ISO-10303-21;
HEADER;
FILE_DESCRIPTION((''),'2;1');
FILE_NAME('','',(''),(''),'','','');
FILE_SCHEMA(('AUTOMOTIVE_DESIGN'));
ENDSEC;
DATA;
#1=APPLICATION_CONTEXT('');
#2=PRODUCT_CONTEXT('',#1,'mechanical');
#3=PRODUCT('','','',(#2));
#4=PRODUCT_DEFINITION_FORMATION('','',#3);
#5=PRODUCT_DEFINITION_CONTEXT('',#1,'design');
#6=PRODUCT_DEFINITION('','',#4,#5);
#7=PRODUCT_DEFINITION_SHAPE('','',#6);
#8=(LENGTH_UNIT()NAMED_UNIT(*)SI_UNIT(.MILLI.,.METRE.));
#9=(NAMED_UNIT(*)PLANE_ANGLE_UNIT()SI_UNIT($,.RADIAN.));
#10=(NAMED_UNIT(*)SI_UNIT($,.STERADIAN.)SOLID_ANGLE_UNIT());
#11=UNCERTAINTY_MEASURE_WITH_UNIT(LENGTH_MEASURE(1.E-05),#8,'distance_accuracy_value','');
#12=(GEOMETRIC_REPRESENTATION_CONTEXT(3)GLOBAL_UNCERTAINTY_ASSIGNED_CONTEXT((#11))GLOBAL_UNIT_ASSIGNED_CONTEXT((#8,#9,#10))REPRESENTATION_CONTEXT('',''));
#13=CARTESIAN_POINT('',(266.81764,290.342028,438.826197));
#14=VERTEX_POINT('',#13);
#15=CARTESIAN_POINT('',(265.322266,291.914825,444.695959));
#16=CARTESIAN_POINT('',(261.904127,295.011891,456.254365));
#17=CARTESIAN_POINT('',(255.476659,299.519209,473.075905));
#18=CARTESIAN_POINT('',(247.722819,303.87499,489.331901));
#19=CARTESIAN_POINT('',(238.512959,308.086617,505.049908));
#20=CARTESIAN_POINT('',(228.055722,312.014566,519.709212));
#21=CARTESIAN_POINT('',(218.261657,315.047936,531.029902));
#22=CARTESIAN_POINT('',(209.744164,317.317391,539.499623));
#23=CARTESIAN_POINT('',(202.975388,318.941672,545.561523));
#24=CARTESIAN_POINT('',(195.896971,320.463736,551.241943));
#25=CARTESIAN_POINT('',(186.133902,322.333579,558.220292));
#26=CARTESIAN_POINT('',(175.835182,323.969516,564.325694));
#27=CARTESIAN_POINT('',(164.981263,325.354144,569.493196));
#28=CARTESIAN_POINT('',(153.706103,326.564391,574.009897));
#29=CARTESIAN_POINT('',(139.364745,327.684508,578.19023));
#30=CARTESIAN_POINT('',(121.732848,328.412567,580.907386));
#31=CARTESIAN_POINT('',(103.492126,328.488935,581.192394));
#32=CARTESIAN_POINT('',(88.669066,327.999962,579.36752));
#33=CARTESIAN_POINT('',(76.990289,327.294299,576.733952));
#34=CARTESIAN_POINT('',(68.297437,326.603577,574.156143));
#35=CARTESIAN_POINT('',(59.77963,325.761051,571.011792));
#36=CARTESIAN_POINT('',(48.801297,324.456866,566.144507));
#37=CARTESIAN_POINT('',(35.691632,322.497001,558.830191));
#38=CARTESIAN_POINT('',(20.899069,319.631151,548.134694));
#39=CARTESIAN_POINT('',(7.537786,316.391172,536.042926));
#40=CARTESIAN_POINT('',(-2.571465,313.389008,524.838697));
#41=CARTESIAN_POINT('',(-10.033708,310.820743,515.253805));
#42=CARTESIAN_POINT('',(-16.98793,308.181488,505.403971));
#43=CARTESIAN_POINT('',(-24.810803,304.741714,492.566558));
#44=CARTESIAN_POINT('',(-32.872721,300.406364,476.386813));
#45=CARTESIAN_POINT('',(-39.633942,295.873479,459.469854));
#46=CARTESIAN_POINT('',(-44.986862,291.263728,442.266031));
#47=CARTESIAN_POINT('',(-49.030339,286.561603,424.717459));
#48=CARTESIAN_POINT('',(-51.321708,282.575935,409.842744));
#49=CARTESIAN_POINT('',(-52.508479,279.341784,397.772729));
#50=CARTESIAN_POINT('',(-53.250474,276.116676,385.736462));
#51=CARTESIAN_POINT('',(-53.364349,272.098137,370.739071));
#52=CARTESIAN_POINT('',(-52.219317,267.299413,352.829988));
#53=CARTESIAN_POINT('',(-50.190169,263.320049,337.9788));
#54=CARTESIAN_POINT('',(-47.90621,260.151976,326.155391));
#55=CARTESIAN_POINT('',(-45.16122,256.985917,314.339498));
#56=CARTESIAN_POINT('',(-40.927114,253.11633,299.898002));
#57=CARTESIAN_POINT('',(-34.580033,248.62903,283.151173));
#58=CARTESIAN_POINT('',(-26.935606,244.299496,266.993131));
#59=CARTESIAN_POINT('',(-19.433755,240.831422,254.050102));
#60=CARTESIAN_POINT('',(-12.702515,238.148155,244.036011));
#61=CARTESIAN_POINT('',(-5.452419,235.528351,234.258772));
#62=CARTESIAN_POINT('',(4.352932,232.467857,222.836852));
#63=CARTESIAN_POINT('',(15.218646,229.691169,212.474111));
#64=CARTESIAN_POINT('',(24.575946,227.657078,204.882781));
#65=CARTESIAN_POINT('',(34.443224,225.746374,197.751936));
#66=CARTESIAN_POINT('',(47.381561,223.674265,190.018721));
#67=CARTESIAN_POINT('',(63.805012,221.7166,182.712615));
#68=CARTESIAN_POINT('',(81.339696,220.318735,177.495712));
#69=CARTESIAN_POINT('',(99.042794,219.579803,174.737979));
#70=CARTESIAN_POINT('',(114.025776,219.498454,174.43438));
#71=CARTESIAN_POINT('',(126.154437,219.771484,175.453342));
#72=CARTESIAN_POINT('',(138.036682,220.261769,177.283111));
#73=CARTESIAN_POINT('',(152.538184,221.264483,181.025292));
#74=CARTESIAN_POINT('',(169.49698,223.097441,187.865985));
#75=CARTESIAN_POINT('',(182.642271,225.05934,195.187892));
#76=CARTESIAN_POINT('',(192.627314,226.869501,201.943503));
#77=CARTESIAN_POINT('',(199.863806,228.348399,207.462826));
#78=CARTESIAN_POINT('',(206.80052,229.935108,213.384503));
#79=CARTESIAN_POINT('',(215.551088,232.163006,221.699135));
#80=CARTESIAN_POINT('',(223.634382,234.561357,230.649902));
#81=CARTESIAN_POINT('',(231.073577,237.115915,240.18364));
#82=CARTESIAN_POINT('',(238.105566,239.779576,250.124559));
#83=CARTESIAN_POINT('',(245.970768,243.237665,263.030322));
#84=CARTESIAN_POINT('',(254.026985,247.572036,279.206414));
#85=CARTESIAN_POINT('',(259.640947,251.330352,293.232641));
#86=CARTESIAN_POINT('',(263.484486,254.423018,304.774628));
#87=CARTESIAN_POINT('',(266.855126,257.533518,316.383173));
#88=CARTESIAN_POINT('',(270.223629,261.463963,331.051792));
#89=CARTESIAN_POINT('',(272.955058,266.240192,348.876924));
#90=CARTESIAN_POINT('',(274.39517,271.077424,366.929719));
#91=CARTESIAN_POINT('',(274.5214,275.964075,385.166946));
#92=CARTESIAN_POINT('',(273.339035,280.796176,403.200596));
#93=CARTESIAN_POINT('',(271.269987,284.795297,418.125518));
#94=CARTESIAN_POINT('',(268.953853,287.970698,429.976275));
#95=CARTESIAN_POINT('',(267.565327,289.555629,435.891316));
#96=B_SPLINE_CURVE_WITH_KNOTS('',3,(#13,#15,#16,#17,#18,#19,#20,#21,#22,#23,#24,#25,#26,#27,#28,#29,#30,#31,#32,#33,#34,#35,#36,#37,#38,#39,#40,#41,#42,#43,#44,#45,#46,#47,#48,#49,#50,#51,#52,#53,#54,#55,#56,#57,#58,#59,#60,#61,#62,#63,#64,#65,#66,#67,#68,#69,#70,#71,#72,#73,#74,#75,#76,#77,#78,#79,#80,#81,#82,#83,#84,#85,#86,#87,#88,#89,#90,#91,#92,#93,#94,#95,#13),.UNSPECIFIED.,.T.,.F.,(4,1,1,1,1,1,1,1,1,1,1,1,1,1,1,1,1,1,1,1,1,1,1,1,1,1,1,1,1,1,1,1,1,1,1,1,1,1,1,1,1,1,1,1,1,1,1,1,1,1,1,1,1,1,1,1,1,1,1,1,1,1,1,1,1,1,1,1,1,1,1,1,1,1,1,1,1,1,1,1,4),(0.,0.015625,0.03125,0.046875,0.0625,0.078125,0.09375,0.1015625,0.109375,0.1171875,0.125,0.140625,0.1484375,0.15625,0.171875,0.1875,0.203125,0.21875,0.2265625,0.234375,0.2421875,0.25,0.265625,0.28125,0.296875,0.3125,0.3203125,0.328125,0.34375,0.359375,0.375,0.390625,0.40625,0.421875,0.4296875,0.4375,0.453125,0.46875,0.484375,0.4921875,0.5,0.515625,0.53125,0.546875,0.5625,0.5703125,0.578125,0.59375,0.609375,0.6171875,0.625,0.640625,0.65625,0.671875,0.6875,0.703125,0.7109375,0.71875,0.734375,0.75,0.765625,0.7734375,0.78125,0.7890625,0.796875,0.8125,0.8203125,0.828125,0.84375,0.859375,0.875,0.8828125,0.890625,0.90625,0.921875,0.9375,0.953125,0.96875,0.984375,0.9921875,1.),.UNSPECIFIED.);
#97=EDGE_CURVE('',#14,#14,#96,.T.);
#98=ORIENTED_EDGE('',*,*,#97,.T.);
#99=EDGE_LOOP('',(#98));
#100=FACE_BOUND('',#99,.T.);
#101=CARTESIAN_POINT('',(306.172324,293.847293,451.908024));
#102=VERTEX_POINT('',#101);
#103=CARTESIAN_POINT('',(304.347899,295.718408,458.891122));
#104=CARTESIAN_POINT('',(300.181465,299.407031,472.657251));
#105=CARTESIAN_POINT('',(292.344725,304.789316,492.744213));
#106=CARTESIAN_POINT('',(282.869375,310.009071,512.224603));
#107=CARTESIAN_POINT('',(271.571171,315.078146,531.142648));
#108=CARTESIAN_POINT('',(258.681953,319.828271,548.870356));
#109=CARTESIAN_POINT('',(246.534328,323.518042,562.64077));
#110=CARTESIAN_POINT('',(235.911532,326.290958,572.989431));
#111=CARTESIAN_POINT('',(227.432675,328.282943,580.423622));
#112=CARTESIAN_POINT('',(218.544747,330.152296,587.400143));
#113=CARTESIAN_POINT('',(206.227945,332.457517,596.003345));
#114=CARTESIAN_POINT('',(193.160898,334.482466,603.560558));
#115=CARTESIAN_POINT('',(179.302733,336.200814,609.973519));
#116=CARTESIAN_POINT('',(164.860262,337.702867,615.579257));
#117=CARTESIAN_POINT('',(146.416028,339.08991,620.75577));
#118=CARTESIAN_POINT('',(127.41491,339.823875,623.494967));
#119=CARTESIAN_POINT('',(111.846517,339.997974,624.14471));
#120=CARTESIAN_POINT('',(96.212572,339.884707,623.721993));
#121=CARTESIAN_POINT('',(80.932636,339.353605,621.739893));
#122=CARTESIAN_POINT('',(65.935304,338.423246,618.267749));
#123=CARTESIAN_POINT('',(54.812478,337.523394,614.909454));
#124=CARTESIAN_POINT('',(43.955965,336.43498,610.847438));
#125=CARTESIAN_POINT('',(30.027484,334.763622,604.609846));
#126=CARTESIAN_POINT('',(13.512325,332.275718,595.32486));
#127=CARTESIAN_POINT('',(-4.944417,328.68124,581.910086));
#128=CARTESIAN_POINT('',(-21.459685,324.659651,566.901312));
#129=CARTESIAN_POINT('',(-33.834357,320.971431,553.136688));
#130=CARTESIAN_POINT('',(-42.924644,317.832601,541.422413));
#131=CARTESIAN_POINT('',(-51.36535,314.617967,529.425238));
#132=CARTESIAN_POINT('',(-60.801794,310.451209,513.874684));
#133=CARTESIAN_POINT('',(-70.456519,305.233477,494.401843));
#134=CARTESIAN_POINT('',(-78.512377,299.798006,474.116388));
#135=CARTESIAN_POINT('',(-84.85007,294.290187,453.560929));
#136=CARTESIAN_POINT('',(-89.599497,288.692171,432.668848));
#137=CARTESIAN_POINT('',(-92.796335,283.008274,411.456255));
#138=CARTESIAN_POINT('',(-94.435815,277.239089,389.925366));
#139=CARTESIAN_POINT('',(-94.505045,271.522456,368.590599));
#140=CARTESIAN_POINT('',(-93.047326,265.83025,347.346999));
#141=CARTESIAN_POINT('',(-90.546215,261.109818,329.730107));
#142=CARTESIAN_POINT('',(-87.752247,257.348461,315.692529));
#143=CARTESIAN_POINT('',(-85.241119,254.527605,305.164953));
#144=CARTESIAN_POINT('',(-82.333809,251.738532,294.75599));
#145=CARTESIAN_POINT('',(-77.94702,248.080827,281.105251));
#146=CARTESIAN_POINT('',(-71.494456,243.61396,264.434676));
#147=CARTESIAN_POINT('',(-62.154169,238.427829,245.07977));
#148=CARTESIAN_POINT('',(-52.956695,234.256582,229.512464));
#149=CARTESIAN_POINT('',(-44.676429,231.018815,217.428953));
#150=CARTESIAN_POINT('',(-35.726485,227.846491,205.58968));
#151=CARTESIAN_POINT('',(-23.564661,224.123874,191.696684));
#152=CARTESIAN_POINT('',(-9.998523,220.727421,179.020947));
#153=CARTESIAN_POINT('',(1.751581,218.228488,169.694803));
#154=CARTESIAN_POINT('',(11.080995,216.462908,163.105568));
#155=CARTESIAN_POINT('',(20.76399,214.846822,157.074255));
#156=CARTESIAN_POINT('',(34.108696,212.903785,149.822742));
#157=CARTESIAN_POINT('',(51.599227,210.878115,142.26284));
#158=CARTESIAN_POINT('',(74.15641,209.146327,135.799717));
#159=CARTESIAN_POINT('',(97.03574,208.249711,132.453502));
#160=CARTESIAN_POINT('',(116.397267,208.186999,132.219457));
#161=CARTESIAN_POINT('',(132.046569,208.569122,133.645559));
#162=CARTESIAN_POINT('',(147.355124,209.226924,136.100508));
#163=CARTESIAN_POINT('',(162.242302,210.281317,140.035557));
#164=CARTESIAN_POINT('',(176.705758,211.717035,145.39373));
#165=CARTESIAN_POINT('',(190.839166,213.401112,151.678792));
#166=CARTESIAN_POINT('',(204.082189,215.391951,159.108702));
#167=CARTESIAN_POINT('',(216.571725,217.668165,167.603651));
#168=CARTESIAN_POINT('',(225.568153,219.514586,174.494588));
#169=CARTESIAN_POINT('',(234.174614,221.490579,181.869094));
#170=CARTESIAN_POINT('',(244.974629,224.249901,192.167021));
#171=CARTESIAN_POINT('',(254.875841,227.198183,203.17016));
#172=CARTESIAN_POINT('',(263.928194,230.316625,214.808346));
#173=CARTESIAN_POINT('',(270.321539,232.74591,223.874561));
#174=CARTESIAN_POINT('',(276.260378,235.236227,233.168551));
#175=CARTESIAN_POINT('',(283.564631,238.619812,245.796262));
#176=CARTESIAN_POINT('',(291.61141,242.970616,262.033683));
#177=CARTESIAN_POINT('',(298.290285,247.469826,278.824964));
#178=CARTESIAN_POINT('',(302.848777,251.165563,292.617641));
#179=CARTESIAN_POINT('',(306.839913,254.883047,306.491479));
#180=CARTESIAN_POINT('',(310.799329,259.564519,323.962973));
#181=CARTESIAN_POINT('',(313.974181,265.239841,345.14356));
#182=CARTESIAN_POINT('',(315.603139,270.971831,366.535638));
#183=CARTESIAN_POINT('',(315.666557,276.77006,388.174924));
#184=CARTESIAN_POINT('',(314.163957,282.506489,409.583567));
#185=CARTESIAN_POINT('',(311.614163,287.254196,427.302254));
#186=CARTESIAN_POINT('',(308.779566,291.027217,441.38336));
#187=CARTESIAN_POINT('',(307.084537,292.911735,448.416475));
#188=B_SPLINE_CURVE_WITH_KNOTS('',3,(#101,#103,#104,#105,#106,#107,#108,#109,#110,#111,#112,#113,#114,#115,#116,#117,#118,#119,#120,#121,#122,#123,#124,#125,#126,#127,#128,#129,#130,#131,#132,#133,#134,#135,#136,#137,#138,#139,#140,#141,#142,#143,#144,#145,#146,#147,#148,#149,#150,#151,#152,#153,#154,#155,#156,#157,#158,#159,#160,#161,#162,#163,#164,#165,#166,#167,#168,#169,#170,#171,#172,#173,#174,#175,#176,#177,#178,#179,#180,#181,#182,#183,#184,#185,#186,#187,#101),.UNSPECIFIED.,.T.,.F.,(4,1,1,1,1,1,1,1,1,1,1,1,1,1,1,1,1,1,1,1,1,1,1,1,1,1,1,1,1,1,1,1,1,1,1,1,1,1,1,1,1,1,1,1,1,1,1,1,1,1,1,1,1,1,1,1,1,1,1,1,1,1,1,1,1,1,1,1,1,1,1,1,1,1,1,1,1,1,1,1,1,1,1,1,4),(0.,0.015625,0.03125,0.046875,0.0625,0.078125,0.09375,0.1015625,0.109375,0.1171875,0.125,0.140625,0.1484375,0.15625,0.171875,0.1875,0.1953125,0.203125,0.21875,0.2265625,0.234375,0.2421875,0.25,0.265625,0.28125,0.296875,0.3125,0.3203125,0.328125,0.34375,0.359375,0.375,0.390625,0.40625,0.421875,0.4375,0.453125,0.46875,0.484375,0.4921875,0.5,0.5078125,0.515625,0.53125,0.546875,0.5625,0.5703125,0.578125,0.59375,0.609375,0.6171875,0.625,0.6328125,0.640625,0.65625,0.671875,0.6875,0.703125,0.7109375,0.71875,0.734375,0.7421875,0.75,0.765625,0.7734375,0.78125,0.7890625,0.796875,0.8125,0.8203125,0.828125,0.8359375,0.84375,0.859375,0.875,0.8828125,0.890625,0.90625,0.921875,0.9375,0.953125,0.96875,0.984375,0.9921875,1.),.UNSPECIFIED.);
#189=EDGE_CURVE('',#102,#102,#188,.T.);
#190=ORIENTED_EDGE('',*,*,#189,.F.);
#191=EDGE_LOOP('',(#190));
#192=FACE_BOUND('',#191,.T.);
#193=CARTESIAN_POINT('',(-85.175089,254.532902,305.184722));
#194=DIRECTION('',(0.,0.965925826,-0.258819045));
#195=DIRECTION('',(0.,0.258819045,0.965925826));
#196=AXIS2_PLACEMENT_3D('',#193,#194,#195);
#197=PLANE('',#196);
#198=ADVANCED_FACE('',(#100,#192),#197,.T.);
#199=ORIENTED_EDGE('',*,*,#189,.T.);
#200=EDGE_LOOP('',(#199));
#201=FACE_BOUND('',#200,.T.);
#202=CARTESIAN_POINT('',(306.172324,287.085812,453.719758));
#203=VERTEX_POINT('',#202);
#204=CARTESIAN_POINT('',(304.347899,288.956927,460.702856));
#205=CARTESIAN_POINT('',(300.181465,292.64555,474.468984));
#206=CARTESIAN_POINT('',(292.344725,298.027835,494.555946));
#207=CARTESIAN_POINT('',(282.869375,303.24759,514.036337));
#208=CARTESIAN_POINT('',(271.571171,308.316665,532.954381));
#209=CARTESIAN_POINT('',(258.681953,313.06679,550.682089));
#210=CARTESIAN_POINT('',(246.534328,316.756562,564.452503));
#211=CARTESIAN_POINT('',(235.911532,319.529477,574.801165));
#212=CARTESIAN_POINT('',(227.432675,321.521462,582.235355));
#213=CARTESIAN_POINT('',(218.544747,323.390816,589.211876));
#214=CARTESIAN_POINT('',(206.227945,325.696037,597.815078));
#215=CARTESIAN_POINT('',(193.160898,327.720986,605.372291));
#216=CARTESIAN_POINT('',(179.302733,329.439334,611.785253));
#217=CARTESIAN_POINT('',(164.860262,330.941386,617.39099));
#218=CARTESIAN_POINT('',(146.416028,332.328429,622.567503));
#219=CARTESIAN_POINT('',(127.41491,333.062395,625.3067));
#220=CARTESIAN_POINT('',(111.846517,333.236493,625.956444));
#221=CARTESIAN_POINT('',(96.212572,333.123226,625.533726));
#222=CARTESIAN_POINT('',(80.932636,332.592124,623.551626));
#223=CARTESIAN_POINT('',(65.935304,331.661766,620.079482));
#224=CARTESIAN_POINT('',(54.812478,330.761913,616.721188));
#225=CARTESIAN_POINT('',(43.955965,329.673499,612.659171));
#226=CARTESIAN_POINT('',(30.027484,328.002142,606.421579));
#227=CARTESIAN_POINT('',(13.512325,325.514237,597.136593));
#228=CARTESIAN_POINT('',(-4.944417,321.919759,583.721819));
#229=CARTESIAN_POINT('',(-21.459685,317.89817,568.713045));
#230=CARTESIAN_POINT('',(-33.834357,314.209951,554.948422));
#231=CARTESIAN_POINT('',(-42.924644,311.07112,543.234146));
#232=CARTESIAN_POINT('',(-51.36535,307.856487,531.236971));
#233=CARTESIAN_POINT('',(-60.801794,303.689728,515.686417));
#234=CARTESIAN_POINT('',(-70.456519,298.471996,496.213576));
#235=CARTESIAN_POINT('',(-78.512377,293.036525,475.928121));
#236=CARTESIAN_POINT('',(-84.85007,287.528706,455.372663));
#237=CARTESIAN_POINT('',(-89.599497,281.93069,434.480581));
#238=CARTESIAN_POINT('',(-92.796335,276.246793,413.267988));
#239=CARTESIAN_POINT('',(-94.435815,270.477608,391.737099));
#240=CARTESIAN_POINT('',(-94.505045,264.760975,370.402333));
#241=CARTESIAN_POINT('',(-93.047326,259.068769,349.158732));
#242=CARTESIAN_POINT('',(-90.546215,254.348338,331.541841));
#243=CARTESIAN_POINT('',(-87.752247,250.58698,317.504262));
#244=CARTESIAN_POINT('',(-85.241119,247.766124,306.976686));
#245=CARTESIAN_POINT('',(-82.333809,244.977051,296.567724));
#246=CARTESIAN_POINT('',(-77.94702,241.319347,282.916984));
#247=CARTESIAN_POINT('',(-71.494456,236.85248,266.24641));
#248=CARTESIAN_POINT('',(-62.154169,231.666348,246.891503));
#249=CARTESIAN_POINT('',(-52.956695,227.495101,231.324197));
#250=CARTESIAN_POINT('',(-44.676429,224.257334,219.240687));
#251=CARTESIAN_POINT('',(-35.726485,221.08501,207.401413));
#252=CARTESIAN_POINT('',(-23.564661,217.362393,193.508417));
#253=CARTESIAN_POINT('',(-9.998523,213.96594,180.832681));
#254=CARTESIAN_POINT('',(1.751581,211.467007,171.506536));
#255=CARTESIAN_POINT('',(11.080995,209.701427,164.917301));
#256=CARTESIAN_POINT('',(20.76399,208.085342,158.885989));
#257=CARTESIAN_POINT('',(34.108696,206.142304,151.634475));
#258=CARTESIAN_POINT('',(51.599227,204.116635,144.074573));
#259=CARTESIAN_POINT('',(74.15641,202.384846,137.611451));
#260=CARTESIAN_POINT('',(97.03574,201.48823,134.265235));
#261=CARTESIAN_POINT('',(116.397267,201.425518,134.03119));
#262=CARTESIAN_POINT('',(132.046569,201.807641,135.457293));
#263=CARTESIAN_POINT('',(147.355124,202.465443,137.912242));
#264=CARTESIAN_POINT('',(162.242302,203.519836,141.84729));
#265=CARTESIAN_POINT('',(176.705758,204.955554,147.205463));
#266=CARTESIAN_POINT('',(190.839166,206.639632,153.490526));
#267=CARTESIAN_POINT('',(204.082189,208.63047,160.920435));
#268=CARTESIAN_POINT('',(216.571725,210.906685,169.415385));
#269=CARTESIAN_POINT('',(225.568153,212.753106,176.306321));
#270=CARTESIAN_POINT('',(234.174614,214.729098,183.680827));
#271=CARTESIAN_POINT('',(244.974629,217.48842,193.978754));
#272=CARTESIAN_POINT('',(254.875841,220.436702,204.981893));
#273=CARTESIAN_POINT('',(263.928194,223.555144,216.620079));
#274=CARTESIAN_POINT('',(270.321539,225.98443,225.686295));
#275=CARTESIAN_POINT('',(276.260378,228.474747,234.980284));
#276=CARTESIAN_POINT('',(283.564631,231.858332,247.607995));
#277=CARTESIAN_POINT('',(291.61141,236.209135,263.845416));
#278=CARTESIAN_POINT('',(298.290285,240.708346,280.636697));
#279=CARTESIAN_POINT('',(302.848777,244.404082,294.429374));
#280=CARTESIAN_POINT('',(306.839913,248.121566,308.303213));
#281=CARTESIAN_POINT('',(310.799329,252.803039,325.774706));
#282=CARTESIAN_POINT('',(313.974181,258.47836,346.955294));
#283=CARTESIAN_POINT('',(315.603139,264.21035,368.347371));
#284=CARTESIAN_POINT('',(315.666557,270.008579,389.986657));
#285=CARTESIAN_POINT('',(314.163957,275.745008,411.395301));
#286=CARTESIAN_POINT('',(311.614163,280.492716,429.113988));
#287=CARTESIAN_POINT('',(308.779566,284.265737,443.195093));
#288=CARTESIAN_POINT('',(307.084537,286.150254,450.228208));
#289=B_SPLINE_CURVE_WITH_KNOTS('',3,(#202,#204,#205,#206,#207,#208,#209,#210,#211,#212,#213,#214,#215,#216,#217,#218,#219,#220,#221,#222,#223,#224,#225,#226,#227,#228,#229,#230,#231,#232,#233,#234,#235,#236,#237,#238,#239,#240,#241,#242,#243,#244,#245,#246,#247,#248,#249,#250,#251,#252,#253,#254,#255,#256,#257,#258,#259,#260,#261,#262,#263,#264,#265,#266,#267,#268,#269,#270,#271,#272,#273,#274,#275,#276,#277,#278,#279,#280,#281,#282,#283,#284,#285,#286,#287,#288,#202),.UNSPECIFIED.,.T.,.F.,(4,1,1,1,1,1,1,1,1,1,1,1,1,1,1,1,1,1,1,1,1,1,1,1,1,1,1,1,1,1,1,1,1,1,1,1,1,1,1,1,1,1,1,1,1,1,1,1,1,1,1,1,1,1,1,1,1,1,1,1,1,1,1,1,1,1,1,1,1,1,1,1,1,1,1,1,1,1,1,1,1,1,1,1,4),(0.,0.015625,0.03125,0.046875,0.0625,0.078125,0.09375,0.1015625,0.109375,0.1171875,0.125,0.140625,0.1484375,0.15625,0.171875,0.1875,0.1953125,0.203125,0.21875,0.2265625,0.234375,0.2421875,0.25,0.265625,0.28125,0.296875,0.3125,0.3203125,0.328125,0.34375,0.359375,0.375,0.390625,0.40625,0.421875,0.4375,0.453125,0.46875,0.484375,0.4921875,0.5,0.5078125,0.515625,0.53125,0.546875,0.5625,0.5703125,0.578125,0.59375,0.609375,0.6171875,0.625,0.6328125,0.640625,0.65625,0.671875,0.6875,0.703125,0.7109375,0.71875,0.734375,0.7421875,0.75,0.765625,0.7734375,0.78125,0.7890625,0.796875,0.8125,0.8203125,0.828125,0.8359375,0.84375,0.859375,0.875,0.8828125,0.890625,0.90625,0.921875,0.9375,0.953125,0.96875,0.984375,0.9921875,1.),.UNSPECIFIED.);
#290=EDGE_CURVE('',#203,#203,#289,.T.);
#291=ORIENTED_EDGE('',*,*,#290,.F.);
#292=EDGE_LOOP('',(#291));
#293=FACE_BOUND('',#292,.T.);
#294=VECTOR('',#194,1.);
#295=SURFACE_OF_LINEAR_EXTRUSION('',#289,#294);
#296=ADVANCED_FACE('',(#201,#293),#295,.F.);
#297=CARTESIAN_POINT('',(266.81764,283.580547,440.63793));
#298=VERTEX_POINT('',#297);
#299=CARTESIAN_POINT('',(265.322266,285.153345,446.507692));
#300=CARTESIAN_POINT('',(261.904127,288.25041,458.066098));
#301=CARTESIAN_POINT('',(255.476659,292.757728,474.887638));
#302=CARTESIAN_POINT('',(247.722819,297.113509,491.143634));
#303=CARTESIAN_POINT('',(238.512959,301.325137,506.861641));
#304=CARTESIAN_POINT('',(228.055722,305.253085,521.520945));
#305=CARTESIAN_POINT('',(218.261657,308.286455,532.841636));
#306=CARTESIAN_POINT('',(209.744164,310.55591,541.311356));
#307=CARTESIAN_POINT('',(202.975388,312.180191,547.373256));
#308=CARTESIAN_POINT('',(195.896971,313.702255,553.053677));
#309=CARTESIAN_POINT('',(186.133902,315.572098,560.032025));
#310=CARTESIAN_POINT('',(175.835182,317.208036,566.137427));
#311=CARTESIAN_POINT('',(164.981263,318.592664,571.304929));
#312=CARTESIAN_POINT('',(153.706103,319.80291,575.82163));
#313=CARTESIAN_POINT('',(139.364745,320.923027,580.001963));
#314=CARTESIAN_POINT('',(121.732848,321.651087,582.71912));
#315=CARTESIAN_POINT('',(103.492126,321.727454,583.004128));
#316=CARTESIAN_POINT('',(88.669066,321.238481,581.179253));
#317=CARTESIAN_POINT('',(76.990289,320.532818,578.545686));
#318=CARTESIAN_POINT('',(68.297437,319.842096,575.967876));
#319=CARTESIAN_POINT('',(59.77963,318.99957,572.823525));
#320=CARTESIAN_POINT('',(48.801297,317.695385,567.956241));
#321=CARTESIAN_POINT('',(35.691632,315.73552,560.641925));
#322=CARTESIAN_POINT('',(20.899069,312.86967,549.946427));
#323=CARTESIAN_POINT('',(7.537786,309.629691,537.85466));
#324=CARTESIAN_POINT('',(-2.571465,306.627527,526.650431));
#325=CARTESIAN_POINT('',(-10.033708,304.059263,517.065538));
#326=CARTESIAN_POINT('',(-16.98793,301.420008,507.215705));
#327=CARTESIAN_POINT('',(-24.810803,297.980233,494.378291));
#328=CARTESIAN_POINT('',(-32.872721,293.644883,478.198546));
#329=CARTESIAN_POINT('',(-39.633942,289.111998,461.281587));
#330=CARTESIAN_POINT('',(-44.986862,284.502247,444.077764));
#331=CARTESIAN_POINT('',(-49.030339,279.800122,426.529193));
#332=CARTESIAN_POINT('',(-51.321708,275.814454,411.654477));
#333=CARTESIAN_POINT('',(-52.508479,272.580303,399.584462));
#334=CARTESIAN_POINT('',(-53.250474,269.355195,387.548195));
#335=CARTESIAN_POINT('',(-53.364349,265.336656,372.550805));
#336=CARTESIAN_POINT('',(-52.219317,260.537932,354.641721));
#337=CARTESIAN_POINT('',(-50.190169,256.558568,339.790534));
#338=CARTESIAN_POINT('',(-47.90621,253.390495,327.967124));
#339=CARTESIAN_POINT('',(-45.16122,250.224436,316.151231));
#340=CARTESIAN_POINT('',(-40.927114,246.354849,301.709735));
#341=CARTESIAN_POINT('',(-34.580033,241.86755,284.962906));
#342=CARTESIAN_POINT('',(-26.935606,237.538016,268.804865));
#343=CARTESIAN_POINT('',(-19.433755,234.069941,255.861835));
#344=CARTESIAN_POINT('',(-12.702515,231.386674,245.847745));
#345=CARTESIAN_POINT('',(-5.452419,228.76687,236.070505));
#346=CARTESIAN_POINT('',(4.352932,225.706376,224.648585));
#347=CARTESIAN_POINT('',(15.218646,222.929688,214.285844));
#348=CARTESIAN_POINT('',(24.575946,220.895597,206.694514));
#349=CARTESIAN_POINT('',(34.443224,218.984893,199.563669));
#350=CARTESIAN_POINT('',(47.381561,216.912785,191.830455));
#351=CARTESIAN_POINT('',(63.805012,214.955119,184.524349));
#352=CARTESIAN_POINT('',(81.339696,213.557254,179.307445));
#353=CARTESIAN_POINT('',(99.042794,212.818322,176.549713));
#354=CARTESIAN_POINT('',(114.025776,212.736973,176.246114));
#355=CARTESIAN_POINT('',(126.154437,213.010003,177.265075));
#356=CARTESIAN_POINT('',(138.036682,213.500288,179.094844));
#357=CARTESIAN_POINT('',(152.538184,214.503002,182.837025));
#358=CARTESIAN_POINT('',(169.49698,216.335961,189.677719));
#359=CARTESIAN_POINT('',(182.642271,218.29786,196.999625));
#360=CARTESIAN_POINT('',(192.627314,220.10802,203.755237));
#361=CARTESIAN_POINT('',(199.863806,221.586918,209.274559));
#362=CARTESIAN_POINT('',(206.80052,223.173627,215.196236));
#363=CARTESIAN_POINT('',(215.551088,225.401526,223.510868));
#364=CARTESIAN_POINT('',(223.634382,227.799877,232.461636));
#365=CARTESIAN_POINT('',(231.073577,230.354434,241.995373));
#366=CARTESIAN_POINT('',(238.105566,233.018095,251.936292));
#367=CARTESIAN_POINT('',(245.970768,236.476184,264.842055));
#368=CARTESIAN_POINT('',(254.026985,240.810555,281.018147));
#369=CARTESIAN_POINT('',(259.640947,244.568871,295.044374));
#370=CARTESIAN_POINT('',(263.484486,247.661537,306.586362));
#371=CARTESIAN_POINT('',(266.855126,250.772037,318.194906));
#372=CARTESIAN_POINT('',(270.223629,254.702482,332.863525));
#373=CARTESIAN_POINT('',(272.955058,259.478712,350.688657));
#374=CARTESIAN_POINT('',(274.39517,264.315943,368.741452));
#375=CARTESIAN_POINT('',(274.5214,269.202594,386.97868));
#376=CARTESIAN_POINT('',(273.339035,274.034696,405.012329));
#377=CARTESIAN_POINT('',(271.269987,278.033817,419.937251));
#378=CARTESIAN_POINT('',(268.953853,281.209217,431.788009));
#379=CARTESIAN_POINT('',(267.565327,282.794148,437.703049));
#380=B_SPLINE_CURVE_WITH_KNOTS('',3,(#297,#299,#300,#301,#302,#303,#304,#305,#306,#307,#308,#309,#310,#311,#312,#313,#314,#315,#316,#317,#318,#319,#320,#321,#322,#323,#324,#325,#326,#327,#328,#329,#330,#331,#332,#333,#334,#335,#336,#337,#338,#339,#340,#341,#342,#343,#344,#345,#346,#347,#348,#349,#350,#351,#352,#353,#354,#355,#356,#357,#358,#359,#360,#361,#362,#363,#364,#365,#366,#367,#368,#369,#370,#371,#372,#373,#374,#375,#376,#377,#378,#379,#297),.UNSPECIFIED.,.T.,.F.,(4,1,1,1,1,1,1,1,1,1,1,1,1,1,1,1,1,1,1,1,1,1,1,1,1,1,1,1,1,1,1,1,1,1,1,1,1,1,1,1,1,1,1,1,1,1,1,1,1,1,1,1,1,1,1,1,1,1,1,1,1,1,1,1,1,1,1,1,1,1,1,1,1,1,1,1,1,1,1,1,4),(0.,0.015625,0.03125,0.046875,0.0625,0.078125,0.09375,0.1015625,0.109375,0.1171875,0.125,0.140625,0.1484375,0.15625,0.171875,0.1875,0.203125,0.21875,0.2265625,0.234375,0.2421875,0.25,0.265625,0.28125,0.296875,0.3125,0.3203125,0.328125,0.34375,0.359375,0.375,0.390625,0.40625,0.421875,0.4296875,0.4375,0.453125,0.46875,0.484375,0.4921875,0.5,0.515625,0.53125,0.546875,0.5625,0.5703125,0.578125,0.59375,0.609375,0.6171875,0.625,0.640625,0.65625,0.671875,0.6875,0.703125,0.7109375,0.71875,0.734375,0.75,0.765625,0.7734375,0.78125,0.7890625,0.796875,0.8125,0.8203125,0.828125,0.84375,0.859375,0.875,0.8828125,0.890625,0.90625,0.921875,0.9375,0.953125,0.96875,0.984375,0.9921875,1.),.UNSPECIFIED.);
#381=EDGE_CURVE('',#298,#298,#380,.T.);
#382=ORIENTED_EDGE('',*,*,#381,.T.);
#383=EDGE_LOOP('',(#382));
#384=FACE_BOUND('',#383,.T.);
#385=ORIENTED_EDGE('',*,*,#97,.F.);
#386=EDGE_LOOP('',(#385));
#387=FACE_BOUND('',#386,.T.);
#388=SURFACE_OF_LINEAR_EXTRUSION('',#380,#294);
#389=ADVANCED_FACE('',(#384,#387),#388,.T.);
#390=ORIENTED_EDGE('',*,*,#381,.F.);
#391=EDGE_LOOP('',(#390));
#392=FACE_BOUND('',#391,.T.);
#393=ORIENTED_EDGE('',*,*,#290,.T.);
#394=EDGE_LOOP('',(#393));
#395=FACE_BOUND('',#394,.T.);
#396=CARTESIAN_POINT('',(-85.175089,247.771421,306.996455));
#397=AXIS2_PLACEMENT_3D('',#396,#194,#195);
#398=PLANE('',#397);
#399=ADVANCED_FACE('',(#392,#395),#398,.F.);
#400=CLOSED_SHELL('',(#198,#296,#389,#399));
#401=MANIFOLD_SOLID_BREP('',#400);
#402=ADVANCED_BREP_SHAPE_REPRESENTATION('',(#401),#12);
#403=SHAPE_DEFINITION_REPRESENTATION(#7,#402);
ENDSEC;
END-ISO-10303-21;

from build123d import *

# Parameters (mm, degrees)
BOSS_EXTRUDE1_DEPTH = 7


with BuildPart() as part:
    # Sketch1 → Boss-Extrude1 (new body)
    with BuildSketch(Plane(origin=(0, 161.186250329, -43.189725607), x_dir=(-1.0, -1.4278956929826476e-12, 3.826034978110988e-13), z_dir=(1.4782663990552186e-12, -0.9659258262889804, 0.25881904510284903))):
        with BuildLine():
            add(Edge.make_bspline(
                [(-306.172324205, -512.562907386), (-304.34789887, -519.792342579), (-300.181465314, -534.044087381), (-292.344724915, -554.83964043), (-282.86937543, -575.007224868), (-271.571170782, -594.59262595), (-258.68195276, -612.945699759), (-246.534327869, -627.201881407), (-235.911531853, -637.915604089), (-227.432674655, -645.612044112), (-218.544747077, -652.834670418), (-206.227945191, -661.741360611), (-193.160898286, -669.565162801), (-179.302732627, -676.204349518), (-164.860262144, -682.007836215), (-146.416027588, -687.36695687), (-127.414909646, -690.202782235), (-111.846517313, -690.875446006), (-96.212571889, -690.437816785), (-80.932636117, -688.38579557), (-65.935303926, -684.791167441), (-54.812477802, -681.314405495), (-43.955965412, -677.109096713), (-30.027483999, -670.65146629), (-13.512324674, -661.038941217), (4.944416742, -647.150944867), (21.459684696, -631.612719281), (33.834356528, -617.362532227), (42.924644481, -605.235021642), (51.365350248, -592.814632045), (60.801793865, -576.715513729), (70.456518889, -556.555745669), (78.51237672, -535.554697291), (84.850070092, -514.27412063), (89.599496595, -492.645046352), (92.796334565, -470.684154214), (94.43581481, -448.39373739), (94.505045168, -426.306361934), (93.047325866, -404.313368321), (90.54621528, -386.075020246), (87.752246948, -371.542249727), (85.241119078, -360.643301049), (82.333808936, -349.867150142), (77.94702026, -335.734864515), (71.494456176, -318.476215806), (62.15416878, -298.438542479), (52.956695131, -282.322080905), (44.676428899, -269.812310601), (35.726485109, -257.555392842), (23.564661223, -243.172304478), (9.998523009, -230.049416786), (-1.751581085, -220.394281349), (-11.080994839, -213.572603365), (-20.763989585, -207.328529297), (-34.108695923, -199.821210106), (-51.599226932, -191.994623616), (-74.156409744, -185.303506959), (-97.035739875, -181.839249484), (-116.397266798, -181.59694831), (-132.046568715, -183.07335824), (-147.355123707, -185.614908614), (-162.242301577, -189.68877069), (-176.705758397, -195.235959383), (-190.839166062, -201.742734901), (-204.082189268, -209.434743585), (-216.571724679, -218.229362109), (-225.568153233, -225.363384501), (-234.174613637, -232.998034951), (-244.974628851, -243.65923384), (-254.875841471, -255.050521442), (-263.928194448, -267.099257672), (-270.32153881, -276.485294911), (-276.260378064, -286.107140865), (-283.564630507, -299.180309295), (-291.611410229, -315.990524669), (-298.29028509, -333.374137898), (-302.848776875, -347.653368043), (-306.839912788, -362.01662235), (-310.799329031, -380.104442983), (-313.97418066, -402.03220109), (-315.603138506, -424.178909325), (-315.666557309, -446.581546374), (-314.163956536, -468.745405235), (-311.614163445, -487.089140009), (-308.779566485, -501.666973201), (-307.084536872, -508.94818979), (-306.172324205, -512.562907386)],
                knots=[0, 0, 0, 0, 0.015625, 0.03125, 0.046875, 0.0625, 0.078125, 0.09375, 0.1015625, 0.109375, 0.1171875, 0.125, 0.140625, 0.1484375, 0.15625, 0.171875, 0.1875, 0.1953125, 0.203125, 0.21875, 0.2265625, 0.234375, 0.2421875, 0.25, 0.265625, 0.28125, 0.296875, 0.3125, 0.3203125, 0.328125, 0.34375, 0.359375, 0.375, 0.390625, 0.40625, 0.421875, 0.4375, 0.453125, 0.46875, 0.484375, 0.4921875, 0.5, 0.5078125, 0.515625, 0.53125, 0.546875, 0.5625, 0.5703125, 0.578125, 0.59375, 0.609375, 0.6171875, 0.625, 0.6328125, 0.640625, 0.65625, 0.671875, 0.6875, 0.703125, 0.7109375, 0.71875, 0.734375, 0.7421875, 0.75, 0.765625, 0.7734375, 0.78125, 0.7890625, 0.796875, 0.8125, 0.8203125, 0.828125, 0.8359375, 0.84375, 0.859375, 0.875, 0.8828125, 0.890625, 0.90625, 0.921875, 0.9375, 0.953125, 0.96875, 0.984375, 0.9921875, 1, 1, 1, 1], degree=3))
        make_face()
        with BuildLine():
            add(Edge.make_bspline(
                [(-266.817639882, -499.019603231), (-265.322265847, -505.096427598), (-261.904126751, -517.062570301), (-255.476658524, -534.477510015), (-247.722819432, -551.306955536), (-238.51295895, -567.579433486), (-228.055722081, -582.755862027), (-218.261656909, -594.475903271), (-209.744164153, -603.244403058), (-202.975387931, -609.520143611), (-195.89697061, -615.400947774), (-186.133902049, -622.625466035), (-175.835181832, -628.946242739), (-164.981263273, -634.296034612), (-153.706102688, -638.972068008), (-139.364744506, -643.299866689), (-121.732847795, -646.112874226), (-103.492125816, -646.407936292), (-88.669065868, -644.518687455), (-76.990288579, -641.792217589), (-68.297437009, -639.123472423), (-59.779630444, -635.868201204), (-48.801296531, -630.829217391), (-35.691632451, -623.256880083), (-20.899069096, -612.184086178), (-7.537785778, -599.66576754), (2.571465044, -588.066296028), (10.03370791, -578.143285122), (16.987930121, -567.945987078), (24.810803274, -554.655718412), (32.87272111, -537.905213943), (39.633941863, -520.391489564), (44.986861743, -502.58078121), (49.030339298, -484.413163359), (51.321708227, -469.013724368), (52.508478606, -456.517925692), (53.250474071, -444.057065055), (53.364348662, -428.530623827), (52.219317123, -409.989776545), (50.190168591, -394.614695772), (47.906210171, -382.374201124), (45.161219828, -370.14148919), (40.927113912, -355.190552017), (34.580033431, -337.85295851), (26.935605734, -321.124923342), (19.433755199, -307.725313178), (12.702515424, -297.357963727), (5.452419194, -287.235820588), (-4.352931521, -275.410978914), (-15.218646421, -264.682679788), (-24.575946323, -256.823557001), (-34.443224275, -249.441163068), (-47.381560643, -241.43515004), (-63.805011798, -233.871312717), (-81.339695893, -228.470376648), (-99.042794026, -225.615362029), (-114.025775767, -225.30105322), (-126.154437265, -226.355959739), (-138.036681652, -228.250275909), (-152.538183967, -232.124466641), (-169.496979622, -239.206473779), (-182.642271214, -246.786669577), (-192.627314083, -253.780592931), (-199.863805816, -259.494615737), (-206.800520024, -265.625187182), (-215.55108834, -274.233127387), (-223.634381779, -283.499644068), (-231.073576963, -293.369695073), (-238.105566233, -303.66129173), (-245.970768484, -317.022321368), (-254.02698485, -333.769043818), (-259.6409469, -348.290062193), (-263.484485834, -360.239207352), (-266.855126474, -372.257256648), (-270.223628814, -387.44332867), (-272.955058123, -405.89726319), (-274.395170038, -424.58689173), (-274.521399962, -443.467459188), (-273.339035466, -462.137266948), (-271.26998742, -477.588683408), (-268.953853179, -489.857490173), (-267.5653269, -495.981191048), (-266.817639882, -499.019603231)],
                knots=[0, 0, 0, 0, 0.015625, 0.03125, 0.046875, 0.0625, 0.078125, 0.09375, 0.1015625, 0.109375, 0.1171875, 0.125, 0.140625, 0.1484375, 0.15625, 0.171875, 0.1875, 0.203125, 0.21875, 0.2265625, 0.234375, 0.2421875, 0.25, 0.265625, 0.28125, 0.296875, 0.3125, 0.3203125, 0.328125, 0.34375, 0.359375, 0.375, 0.390625, 0.40625, 0.421875, 0.4296875, 0.4375, 0.453125, 0.46875, 0.484375, 0.4921875, 0.5, 0.515625, 0.53125, 0.546875, 0.5625, 0.5703125, 0.578125, 0.59375, 0.609375, 0.6171875, 0.625, 0.640625, 0.65625, 0.671875, 0.6875, 0.703125, 0.7109375, 0.71875, 0.734375, 0.75, 0.765625, 0.7734375, 0.78125, 0.7890625, 0.796875, 0.8125, 0.8203125, 0.828125, 0.84375, 0.859375, 0.875, 0.8828125, 0.890625, 0.90625, 0.921875, 0.9375, 0.953125, 0.96875, 0.984375, 0.9921875, 1, 1, 1, 1], degree=3))
        make_face(mode=Mode.SUBTRACT)
    extrude(amount=BOSS_EXTRUDE1_DEPTH)


solid = part.part
